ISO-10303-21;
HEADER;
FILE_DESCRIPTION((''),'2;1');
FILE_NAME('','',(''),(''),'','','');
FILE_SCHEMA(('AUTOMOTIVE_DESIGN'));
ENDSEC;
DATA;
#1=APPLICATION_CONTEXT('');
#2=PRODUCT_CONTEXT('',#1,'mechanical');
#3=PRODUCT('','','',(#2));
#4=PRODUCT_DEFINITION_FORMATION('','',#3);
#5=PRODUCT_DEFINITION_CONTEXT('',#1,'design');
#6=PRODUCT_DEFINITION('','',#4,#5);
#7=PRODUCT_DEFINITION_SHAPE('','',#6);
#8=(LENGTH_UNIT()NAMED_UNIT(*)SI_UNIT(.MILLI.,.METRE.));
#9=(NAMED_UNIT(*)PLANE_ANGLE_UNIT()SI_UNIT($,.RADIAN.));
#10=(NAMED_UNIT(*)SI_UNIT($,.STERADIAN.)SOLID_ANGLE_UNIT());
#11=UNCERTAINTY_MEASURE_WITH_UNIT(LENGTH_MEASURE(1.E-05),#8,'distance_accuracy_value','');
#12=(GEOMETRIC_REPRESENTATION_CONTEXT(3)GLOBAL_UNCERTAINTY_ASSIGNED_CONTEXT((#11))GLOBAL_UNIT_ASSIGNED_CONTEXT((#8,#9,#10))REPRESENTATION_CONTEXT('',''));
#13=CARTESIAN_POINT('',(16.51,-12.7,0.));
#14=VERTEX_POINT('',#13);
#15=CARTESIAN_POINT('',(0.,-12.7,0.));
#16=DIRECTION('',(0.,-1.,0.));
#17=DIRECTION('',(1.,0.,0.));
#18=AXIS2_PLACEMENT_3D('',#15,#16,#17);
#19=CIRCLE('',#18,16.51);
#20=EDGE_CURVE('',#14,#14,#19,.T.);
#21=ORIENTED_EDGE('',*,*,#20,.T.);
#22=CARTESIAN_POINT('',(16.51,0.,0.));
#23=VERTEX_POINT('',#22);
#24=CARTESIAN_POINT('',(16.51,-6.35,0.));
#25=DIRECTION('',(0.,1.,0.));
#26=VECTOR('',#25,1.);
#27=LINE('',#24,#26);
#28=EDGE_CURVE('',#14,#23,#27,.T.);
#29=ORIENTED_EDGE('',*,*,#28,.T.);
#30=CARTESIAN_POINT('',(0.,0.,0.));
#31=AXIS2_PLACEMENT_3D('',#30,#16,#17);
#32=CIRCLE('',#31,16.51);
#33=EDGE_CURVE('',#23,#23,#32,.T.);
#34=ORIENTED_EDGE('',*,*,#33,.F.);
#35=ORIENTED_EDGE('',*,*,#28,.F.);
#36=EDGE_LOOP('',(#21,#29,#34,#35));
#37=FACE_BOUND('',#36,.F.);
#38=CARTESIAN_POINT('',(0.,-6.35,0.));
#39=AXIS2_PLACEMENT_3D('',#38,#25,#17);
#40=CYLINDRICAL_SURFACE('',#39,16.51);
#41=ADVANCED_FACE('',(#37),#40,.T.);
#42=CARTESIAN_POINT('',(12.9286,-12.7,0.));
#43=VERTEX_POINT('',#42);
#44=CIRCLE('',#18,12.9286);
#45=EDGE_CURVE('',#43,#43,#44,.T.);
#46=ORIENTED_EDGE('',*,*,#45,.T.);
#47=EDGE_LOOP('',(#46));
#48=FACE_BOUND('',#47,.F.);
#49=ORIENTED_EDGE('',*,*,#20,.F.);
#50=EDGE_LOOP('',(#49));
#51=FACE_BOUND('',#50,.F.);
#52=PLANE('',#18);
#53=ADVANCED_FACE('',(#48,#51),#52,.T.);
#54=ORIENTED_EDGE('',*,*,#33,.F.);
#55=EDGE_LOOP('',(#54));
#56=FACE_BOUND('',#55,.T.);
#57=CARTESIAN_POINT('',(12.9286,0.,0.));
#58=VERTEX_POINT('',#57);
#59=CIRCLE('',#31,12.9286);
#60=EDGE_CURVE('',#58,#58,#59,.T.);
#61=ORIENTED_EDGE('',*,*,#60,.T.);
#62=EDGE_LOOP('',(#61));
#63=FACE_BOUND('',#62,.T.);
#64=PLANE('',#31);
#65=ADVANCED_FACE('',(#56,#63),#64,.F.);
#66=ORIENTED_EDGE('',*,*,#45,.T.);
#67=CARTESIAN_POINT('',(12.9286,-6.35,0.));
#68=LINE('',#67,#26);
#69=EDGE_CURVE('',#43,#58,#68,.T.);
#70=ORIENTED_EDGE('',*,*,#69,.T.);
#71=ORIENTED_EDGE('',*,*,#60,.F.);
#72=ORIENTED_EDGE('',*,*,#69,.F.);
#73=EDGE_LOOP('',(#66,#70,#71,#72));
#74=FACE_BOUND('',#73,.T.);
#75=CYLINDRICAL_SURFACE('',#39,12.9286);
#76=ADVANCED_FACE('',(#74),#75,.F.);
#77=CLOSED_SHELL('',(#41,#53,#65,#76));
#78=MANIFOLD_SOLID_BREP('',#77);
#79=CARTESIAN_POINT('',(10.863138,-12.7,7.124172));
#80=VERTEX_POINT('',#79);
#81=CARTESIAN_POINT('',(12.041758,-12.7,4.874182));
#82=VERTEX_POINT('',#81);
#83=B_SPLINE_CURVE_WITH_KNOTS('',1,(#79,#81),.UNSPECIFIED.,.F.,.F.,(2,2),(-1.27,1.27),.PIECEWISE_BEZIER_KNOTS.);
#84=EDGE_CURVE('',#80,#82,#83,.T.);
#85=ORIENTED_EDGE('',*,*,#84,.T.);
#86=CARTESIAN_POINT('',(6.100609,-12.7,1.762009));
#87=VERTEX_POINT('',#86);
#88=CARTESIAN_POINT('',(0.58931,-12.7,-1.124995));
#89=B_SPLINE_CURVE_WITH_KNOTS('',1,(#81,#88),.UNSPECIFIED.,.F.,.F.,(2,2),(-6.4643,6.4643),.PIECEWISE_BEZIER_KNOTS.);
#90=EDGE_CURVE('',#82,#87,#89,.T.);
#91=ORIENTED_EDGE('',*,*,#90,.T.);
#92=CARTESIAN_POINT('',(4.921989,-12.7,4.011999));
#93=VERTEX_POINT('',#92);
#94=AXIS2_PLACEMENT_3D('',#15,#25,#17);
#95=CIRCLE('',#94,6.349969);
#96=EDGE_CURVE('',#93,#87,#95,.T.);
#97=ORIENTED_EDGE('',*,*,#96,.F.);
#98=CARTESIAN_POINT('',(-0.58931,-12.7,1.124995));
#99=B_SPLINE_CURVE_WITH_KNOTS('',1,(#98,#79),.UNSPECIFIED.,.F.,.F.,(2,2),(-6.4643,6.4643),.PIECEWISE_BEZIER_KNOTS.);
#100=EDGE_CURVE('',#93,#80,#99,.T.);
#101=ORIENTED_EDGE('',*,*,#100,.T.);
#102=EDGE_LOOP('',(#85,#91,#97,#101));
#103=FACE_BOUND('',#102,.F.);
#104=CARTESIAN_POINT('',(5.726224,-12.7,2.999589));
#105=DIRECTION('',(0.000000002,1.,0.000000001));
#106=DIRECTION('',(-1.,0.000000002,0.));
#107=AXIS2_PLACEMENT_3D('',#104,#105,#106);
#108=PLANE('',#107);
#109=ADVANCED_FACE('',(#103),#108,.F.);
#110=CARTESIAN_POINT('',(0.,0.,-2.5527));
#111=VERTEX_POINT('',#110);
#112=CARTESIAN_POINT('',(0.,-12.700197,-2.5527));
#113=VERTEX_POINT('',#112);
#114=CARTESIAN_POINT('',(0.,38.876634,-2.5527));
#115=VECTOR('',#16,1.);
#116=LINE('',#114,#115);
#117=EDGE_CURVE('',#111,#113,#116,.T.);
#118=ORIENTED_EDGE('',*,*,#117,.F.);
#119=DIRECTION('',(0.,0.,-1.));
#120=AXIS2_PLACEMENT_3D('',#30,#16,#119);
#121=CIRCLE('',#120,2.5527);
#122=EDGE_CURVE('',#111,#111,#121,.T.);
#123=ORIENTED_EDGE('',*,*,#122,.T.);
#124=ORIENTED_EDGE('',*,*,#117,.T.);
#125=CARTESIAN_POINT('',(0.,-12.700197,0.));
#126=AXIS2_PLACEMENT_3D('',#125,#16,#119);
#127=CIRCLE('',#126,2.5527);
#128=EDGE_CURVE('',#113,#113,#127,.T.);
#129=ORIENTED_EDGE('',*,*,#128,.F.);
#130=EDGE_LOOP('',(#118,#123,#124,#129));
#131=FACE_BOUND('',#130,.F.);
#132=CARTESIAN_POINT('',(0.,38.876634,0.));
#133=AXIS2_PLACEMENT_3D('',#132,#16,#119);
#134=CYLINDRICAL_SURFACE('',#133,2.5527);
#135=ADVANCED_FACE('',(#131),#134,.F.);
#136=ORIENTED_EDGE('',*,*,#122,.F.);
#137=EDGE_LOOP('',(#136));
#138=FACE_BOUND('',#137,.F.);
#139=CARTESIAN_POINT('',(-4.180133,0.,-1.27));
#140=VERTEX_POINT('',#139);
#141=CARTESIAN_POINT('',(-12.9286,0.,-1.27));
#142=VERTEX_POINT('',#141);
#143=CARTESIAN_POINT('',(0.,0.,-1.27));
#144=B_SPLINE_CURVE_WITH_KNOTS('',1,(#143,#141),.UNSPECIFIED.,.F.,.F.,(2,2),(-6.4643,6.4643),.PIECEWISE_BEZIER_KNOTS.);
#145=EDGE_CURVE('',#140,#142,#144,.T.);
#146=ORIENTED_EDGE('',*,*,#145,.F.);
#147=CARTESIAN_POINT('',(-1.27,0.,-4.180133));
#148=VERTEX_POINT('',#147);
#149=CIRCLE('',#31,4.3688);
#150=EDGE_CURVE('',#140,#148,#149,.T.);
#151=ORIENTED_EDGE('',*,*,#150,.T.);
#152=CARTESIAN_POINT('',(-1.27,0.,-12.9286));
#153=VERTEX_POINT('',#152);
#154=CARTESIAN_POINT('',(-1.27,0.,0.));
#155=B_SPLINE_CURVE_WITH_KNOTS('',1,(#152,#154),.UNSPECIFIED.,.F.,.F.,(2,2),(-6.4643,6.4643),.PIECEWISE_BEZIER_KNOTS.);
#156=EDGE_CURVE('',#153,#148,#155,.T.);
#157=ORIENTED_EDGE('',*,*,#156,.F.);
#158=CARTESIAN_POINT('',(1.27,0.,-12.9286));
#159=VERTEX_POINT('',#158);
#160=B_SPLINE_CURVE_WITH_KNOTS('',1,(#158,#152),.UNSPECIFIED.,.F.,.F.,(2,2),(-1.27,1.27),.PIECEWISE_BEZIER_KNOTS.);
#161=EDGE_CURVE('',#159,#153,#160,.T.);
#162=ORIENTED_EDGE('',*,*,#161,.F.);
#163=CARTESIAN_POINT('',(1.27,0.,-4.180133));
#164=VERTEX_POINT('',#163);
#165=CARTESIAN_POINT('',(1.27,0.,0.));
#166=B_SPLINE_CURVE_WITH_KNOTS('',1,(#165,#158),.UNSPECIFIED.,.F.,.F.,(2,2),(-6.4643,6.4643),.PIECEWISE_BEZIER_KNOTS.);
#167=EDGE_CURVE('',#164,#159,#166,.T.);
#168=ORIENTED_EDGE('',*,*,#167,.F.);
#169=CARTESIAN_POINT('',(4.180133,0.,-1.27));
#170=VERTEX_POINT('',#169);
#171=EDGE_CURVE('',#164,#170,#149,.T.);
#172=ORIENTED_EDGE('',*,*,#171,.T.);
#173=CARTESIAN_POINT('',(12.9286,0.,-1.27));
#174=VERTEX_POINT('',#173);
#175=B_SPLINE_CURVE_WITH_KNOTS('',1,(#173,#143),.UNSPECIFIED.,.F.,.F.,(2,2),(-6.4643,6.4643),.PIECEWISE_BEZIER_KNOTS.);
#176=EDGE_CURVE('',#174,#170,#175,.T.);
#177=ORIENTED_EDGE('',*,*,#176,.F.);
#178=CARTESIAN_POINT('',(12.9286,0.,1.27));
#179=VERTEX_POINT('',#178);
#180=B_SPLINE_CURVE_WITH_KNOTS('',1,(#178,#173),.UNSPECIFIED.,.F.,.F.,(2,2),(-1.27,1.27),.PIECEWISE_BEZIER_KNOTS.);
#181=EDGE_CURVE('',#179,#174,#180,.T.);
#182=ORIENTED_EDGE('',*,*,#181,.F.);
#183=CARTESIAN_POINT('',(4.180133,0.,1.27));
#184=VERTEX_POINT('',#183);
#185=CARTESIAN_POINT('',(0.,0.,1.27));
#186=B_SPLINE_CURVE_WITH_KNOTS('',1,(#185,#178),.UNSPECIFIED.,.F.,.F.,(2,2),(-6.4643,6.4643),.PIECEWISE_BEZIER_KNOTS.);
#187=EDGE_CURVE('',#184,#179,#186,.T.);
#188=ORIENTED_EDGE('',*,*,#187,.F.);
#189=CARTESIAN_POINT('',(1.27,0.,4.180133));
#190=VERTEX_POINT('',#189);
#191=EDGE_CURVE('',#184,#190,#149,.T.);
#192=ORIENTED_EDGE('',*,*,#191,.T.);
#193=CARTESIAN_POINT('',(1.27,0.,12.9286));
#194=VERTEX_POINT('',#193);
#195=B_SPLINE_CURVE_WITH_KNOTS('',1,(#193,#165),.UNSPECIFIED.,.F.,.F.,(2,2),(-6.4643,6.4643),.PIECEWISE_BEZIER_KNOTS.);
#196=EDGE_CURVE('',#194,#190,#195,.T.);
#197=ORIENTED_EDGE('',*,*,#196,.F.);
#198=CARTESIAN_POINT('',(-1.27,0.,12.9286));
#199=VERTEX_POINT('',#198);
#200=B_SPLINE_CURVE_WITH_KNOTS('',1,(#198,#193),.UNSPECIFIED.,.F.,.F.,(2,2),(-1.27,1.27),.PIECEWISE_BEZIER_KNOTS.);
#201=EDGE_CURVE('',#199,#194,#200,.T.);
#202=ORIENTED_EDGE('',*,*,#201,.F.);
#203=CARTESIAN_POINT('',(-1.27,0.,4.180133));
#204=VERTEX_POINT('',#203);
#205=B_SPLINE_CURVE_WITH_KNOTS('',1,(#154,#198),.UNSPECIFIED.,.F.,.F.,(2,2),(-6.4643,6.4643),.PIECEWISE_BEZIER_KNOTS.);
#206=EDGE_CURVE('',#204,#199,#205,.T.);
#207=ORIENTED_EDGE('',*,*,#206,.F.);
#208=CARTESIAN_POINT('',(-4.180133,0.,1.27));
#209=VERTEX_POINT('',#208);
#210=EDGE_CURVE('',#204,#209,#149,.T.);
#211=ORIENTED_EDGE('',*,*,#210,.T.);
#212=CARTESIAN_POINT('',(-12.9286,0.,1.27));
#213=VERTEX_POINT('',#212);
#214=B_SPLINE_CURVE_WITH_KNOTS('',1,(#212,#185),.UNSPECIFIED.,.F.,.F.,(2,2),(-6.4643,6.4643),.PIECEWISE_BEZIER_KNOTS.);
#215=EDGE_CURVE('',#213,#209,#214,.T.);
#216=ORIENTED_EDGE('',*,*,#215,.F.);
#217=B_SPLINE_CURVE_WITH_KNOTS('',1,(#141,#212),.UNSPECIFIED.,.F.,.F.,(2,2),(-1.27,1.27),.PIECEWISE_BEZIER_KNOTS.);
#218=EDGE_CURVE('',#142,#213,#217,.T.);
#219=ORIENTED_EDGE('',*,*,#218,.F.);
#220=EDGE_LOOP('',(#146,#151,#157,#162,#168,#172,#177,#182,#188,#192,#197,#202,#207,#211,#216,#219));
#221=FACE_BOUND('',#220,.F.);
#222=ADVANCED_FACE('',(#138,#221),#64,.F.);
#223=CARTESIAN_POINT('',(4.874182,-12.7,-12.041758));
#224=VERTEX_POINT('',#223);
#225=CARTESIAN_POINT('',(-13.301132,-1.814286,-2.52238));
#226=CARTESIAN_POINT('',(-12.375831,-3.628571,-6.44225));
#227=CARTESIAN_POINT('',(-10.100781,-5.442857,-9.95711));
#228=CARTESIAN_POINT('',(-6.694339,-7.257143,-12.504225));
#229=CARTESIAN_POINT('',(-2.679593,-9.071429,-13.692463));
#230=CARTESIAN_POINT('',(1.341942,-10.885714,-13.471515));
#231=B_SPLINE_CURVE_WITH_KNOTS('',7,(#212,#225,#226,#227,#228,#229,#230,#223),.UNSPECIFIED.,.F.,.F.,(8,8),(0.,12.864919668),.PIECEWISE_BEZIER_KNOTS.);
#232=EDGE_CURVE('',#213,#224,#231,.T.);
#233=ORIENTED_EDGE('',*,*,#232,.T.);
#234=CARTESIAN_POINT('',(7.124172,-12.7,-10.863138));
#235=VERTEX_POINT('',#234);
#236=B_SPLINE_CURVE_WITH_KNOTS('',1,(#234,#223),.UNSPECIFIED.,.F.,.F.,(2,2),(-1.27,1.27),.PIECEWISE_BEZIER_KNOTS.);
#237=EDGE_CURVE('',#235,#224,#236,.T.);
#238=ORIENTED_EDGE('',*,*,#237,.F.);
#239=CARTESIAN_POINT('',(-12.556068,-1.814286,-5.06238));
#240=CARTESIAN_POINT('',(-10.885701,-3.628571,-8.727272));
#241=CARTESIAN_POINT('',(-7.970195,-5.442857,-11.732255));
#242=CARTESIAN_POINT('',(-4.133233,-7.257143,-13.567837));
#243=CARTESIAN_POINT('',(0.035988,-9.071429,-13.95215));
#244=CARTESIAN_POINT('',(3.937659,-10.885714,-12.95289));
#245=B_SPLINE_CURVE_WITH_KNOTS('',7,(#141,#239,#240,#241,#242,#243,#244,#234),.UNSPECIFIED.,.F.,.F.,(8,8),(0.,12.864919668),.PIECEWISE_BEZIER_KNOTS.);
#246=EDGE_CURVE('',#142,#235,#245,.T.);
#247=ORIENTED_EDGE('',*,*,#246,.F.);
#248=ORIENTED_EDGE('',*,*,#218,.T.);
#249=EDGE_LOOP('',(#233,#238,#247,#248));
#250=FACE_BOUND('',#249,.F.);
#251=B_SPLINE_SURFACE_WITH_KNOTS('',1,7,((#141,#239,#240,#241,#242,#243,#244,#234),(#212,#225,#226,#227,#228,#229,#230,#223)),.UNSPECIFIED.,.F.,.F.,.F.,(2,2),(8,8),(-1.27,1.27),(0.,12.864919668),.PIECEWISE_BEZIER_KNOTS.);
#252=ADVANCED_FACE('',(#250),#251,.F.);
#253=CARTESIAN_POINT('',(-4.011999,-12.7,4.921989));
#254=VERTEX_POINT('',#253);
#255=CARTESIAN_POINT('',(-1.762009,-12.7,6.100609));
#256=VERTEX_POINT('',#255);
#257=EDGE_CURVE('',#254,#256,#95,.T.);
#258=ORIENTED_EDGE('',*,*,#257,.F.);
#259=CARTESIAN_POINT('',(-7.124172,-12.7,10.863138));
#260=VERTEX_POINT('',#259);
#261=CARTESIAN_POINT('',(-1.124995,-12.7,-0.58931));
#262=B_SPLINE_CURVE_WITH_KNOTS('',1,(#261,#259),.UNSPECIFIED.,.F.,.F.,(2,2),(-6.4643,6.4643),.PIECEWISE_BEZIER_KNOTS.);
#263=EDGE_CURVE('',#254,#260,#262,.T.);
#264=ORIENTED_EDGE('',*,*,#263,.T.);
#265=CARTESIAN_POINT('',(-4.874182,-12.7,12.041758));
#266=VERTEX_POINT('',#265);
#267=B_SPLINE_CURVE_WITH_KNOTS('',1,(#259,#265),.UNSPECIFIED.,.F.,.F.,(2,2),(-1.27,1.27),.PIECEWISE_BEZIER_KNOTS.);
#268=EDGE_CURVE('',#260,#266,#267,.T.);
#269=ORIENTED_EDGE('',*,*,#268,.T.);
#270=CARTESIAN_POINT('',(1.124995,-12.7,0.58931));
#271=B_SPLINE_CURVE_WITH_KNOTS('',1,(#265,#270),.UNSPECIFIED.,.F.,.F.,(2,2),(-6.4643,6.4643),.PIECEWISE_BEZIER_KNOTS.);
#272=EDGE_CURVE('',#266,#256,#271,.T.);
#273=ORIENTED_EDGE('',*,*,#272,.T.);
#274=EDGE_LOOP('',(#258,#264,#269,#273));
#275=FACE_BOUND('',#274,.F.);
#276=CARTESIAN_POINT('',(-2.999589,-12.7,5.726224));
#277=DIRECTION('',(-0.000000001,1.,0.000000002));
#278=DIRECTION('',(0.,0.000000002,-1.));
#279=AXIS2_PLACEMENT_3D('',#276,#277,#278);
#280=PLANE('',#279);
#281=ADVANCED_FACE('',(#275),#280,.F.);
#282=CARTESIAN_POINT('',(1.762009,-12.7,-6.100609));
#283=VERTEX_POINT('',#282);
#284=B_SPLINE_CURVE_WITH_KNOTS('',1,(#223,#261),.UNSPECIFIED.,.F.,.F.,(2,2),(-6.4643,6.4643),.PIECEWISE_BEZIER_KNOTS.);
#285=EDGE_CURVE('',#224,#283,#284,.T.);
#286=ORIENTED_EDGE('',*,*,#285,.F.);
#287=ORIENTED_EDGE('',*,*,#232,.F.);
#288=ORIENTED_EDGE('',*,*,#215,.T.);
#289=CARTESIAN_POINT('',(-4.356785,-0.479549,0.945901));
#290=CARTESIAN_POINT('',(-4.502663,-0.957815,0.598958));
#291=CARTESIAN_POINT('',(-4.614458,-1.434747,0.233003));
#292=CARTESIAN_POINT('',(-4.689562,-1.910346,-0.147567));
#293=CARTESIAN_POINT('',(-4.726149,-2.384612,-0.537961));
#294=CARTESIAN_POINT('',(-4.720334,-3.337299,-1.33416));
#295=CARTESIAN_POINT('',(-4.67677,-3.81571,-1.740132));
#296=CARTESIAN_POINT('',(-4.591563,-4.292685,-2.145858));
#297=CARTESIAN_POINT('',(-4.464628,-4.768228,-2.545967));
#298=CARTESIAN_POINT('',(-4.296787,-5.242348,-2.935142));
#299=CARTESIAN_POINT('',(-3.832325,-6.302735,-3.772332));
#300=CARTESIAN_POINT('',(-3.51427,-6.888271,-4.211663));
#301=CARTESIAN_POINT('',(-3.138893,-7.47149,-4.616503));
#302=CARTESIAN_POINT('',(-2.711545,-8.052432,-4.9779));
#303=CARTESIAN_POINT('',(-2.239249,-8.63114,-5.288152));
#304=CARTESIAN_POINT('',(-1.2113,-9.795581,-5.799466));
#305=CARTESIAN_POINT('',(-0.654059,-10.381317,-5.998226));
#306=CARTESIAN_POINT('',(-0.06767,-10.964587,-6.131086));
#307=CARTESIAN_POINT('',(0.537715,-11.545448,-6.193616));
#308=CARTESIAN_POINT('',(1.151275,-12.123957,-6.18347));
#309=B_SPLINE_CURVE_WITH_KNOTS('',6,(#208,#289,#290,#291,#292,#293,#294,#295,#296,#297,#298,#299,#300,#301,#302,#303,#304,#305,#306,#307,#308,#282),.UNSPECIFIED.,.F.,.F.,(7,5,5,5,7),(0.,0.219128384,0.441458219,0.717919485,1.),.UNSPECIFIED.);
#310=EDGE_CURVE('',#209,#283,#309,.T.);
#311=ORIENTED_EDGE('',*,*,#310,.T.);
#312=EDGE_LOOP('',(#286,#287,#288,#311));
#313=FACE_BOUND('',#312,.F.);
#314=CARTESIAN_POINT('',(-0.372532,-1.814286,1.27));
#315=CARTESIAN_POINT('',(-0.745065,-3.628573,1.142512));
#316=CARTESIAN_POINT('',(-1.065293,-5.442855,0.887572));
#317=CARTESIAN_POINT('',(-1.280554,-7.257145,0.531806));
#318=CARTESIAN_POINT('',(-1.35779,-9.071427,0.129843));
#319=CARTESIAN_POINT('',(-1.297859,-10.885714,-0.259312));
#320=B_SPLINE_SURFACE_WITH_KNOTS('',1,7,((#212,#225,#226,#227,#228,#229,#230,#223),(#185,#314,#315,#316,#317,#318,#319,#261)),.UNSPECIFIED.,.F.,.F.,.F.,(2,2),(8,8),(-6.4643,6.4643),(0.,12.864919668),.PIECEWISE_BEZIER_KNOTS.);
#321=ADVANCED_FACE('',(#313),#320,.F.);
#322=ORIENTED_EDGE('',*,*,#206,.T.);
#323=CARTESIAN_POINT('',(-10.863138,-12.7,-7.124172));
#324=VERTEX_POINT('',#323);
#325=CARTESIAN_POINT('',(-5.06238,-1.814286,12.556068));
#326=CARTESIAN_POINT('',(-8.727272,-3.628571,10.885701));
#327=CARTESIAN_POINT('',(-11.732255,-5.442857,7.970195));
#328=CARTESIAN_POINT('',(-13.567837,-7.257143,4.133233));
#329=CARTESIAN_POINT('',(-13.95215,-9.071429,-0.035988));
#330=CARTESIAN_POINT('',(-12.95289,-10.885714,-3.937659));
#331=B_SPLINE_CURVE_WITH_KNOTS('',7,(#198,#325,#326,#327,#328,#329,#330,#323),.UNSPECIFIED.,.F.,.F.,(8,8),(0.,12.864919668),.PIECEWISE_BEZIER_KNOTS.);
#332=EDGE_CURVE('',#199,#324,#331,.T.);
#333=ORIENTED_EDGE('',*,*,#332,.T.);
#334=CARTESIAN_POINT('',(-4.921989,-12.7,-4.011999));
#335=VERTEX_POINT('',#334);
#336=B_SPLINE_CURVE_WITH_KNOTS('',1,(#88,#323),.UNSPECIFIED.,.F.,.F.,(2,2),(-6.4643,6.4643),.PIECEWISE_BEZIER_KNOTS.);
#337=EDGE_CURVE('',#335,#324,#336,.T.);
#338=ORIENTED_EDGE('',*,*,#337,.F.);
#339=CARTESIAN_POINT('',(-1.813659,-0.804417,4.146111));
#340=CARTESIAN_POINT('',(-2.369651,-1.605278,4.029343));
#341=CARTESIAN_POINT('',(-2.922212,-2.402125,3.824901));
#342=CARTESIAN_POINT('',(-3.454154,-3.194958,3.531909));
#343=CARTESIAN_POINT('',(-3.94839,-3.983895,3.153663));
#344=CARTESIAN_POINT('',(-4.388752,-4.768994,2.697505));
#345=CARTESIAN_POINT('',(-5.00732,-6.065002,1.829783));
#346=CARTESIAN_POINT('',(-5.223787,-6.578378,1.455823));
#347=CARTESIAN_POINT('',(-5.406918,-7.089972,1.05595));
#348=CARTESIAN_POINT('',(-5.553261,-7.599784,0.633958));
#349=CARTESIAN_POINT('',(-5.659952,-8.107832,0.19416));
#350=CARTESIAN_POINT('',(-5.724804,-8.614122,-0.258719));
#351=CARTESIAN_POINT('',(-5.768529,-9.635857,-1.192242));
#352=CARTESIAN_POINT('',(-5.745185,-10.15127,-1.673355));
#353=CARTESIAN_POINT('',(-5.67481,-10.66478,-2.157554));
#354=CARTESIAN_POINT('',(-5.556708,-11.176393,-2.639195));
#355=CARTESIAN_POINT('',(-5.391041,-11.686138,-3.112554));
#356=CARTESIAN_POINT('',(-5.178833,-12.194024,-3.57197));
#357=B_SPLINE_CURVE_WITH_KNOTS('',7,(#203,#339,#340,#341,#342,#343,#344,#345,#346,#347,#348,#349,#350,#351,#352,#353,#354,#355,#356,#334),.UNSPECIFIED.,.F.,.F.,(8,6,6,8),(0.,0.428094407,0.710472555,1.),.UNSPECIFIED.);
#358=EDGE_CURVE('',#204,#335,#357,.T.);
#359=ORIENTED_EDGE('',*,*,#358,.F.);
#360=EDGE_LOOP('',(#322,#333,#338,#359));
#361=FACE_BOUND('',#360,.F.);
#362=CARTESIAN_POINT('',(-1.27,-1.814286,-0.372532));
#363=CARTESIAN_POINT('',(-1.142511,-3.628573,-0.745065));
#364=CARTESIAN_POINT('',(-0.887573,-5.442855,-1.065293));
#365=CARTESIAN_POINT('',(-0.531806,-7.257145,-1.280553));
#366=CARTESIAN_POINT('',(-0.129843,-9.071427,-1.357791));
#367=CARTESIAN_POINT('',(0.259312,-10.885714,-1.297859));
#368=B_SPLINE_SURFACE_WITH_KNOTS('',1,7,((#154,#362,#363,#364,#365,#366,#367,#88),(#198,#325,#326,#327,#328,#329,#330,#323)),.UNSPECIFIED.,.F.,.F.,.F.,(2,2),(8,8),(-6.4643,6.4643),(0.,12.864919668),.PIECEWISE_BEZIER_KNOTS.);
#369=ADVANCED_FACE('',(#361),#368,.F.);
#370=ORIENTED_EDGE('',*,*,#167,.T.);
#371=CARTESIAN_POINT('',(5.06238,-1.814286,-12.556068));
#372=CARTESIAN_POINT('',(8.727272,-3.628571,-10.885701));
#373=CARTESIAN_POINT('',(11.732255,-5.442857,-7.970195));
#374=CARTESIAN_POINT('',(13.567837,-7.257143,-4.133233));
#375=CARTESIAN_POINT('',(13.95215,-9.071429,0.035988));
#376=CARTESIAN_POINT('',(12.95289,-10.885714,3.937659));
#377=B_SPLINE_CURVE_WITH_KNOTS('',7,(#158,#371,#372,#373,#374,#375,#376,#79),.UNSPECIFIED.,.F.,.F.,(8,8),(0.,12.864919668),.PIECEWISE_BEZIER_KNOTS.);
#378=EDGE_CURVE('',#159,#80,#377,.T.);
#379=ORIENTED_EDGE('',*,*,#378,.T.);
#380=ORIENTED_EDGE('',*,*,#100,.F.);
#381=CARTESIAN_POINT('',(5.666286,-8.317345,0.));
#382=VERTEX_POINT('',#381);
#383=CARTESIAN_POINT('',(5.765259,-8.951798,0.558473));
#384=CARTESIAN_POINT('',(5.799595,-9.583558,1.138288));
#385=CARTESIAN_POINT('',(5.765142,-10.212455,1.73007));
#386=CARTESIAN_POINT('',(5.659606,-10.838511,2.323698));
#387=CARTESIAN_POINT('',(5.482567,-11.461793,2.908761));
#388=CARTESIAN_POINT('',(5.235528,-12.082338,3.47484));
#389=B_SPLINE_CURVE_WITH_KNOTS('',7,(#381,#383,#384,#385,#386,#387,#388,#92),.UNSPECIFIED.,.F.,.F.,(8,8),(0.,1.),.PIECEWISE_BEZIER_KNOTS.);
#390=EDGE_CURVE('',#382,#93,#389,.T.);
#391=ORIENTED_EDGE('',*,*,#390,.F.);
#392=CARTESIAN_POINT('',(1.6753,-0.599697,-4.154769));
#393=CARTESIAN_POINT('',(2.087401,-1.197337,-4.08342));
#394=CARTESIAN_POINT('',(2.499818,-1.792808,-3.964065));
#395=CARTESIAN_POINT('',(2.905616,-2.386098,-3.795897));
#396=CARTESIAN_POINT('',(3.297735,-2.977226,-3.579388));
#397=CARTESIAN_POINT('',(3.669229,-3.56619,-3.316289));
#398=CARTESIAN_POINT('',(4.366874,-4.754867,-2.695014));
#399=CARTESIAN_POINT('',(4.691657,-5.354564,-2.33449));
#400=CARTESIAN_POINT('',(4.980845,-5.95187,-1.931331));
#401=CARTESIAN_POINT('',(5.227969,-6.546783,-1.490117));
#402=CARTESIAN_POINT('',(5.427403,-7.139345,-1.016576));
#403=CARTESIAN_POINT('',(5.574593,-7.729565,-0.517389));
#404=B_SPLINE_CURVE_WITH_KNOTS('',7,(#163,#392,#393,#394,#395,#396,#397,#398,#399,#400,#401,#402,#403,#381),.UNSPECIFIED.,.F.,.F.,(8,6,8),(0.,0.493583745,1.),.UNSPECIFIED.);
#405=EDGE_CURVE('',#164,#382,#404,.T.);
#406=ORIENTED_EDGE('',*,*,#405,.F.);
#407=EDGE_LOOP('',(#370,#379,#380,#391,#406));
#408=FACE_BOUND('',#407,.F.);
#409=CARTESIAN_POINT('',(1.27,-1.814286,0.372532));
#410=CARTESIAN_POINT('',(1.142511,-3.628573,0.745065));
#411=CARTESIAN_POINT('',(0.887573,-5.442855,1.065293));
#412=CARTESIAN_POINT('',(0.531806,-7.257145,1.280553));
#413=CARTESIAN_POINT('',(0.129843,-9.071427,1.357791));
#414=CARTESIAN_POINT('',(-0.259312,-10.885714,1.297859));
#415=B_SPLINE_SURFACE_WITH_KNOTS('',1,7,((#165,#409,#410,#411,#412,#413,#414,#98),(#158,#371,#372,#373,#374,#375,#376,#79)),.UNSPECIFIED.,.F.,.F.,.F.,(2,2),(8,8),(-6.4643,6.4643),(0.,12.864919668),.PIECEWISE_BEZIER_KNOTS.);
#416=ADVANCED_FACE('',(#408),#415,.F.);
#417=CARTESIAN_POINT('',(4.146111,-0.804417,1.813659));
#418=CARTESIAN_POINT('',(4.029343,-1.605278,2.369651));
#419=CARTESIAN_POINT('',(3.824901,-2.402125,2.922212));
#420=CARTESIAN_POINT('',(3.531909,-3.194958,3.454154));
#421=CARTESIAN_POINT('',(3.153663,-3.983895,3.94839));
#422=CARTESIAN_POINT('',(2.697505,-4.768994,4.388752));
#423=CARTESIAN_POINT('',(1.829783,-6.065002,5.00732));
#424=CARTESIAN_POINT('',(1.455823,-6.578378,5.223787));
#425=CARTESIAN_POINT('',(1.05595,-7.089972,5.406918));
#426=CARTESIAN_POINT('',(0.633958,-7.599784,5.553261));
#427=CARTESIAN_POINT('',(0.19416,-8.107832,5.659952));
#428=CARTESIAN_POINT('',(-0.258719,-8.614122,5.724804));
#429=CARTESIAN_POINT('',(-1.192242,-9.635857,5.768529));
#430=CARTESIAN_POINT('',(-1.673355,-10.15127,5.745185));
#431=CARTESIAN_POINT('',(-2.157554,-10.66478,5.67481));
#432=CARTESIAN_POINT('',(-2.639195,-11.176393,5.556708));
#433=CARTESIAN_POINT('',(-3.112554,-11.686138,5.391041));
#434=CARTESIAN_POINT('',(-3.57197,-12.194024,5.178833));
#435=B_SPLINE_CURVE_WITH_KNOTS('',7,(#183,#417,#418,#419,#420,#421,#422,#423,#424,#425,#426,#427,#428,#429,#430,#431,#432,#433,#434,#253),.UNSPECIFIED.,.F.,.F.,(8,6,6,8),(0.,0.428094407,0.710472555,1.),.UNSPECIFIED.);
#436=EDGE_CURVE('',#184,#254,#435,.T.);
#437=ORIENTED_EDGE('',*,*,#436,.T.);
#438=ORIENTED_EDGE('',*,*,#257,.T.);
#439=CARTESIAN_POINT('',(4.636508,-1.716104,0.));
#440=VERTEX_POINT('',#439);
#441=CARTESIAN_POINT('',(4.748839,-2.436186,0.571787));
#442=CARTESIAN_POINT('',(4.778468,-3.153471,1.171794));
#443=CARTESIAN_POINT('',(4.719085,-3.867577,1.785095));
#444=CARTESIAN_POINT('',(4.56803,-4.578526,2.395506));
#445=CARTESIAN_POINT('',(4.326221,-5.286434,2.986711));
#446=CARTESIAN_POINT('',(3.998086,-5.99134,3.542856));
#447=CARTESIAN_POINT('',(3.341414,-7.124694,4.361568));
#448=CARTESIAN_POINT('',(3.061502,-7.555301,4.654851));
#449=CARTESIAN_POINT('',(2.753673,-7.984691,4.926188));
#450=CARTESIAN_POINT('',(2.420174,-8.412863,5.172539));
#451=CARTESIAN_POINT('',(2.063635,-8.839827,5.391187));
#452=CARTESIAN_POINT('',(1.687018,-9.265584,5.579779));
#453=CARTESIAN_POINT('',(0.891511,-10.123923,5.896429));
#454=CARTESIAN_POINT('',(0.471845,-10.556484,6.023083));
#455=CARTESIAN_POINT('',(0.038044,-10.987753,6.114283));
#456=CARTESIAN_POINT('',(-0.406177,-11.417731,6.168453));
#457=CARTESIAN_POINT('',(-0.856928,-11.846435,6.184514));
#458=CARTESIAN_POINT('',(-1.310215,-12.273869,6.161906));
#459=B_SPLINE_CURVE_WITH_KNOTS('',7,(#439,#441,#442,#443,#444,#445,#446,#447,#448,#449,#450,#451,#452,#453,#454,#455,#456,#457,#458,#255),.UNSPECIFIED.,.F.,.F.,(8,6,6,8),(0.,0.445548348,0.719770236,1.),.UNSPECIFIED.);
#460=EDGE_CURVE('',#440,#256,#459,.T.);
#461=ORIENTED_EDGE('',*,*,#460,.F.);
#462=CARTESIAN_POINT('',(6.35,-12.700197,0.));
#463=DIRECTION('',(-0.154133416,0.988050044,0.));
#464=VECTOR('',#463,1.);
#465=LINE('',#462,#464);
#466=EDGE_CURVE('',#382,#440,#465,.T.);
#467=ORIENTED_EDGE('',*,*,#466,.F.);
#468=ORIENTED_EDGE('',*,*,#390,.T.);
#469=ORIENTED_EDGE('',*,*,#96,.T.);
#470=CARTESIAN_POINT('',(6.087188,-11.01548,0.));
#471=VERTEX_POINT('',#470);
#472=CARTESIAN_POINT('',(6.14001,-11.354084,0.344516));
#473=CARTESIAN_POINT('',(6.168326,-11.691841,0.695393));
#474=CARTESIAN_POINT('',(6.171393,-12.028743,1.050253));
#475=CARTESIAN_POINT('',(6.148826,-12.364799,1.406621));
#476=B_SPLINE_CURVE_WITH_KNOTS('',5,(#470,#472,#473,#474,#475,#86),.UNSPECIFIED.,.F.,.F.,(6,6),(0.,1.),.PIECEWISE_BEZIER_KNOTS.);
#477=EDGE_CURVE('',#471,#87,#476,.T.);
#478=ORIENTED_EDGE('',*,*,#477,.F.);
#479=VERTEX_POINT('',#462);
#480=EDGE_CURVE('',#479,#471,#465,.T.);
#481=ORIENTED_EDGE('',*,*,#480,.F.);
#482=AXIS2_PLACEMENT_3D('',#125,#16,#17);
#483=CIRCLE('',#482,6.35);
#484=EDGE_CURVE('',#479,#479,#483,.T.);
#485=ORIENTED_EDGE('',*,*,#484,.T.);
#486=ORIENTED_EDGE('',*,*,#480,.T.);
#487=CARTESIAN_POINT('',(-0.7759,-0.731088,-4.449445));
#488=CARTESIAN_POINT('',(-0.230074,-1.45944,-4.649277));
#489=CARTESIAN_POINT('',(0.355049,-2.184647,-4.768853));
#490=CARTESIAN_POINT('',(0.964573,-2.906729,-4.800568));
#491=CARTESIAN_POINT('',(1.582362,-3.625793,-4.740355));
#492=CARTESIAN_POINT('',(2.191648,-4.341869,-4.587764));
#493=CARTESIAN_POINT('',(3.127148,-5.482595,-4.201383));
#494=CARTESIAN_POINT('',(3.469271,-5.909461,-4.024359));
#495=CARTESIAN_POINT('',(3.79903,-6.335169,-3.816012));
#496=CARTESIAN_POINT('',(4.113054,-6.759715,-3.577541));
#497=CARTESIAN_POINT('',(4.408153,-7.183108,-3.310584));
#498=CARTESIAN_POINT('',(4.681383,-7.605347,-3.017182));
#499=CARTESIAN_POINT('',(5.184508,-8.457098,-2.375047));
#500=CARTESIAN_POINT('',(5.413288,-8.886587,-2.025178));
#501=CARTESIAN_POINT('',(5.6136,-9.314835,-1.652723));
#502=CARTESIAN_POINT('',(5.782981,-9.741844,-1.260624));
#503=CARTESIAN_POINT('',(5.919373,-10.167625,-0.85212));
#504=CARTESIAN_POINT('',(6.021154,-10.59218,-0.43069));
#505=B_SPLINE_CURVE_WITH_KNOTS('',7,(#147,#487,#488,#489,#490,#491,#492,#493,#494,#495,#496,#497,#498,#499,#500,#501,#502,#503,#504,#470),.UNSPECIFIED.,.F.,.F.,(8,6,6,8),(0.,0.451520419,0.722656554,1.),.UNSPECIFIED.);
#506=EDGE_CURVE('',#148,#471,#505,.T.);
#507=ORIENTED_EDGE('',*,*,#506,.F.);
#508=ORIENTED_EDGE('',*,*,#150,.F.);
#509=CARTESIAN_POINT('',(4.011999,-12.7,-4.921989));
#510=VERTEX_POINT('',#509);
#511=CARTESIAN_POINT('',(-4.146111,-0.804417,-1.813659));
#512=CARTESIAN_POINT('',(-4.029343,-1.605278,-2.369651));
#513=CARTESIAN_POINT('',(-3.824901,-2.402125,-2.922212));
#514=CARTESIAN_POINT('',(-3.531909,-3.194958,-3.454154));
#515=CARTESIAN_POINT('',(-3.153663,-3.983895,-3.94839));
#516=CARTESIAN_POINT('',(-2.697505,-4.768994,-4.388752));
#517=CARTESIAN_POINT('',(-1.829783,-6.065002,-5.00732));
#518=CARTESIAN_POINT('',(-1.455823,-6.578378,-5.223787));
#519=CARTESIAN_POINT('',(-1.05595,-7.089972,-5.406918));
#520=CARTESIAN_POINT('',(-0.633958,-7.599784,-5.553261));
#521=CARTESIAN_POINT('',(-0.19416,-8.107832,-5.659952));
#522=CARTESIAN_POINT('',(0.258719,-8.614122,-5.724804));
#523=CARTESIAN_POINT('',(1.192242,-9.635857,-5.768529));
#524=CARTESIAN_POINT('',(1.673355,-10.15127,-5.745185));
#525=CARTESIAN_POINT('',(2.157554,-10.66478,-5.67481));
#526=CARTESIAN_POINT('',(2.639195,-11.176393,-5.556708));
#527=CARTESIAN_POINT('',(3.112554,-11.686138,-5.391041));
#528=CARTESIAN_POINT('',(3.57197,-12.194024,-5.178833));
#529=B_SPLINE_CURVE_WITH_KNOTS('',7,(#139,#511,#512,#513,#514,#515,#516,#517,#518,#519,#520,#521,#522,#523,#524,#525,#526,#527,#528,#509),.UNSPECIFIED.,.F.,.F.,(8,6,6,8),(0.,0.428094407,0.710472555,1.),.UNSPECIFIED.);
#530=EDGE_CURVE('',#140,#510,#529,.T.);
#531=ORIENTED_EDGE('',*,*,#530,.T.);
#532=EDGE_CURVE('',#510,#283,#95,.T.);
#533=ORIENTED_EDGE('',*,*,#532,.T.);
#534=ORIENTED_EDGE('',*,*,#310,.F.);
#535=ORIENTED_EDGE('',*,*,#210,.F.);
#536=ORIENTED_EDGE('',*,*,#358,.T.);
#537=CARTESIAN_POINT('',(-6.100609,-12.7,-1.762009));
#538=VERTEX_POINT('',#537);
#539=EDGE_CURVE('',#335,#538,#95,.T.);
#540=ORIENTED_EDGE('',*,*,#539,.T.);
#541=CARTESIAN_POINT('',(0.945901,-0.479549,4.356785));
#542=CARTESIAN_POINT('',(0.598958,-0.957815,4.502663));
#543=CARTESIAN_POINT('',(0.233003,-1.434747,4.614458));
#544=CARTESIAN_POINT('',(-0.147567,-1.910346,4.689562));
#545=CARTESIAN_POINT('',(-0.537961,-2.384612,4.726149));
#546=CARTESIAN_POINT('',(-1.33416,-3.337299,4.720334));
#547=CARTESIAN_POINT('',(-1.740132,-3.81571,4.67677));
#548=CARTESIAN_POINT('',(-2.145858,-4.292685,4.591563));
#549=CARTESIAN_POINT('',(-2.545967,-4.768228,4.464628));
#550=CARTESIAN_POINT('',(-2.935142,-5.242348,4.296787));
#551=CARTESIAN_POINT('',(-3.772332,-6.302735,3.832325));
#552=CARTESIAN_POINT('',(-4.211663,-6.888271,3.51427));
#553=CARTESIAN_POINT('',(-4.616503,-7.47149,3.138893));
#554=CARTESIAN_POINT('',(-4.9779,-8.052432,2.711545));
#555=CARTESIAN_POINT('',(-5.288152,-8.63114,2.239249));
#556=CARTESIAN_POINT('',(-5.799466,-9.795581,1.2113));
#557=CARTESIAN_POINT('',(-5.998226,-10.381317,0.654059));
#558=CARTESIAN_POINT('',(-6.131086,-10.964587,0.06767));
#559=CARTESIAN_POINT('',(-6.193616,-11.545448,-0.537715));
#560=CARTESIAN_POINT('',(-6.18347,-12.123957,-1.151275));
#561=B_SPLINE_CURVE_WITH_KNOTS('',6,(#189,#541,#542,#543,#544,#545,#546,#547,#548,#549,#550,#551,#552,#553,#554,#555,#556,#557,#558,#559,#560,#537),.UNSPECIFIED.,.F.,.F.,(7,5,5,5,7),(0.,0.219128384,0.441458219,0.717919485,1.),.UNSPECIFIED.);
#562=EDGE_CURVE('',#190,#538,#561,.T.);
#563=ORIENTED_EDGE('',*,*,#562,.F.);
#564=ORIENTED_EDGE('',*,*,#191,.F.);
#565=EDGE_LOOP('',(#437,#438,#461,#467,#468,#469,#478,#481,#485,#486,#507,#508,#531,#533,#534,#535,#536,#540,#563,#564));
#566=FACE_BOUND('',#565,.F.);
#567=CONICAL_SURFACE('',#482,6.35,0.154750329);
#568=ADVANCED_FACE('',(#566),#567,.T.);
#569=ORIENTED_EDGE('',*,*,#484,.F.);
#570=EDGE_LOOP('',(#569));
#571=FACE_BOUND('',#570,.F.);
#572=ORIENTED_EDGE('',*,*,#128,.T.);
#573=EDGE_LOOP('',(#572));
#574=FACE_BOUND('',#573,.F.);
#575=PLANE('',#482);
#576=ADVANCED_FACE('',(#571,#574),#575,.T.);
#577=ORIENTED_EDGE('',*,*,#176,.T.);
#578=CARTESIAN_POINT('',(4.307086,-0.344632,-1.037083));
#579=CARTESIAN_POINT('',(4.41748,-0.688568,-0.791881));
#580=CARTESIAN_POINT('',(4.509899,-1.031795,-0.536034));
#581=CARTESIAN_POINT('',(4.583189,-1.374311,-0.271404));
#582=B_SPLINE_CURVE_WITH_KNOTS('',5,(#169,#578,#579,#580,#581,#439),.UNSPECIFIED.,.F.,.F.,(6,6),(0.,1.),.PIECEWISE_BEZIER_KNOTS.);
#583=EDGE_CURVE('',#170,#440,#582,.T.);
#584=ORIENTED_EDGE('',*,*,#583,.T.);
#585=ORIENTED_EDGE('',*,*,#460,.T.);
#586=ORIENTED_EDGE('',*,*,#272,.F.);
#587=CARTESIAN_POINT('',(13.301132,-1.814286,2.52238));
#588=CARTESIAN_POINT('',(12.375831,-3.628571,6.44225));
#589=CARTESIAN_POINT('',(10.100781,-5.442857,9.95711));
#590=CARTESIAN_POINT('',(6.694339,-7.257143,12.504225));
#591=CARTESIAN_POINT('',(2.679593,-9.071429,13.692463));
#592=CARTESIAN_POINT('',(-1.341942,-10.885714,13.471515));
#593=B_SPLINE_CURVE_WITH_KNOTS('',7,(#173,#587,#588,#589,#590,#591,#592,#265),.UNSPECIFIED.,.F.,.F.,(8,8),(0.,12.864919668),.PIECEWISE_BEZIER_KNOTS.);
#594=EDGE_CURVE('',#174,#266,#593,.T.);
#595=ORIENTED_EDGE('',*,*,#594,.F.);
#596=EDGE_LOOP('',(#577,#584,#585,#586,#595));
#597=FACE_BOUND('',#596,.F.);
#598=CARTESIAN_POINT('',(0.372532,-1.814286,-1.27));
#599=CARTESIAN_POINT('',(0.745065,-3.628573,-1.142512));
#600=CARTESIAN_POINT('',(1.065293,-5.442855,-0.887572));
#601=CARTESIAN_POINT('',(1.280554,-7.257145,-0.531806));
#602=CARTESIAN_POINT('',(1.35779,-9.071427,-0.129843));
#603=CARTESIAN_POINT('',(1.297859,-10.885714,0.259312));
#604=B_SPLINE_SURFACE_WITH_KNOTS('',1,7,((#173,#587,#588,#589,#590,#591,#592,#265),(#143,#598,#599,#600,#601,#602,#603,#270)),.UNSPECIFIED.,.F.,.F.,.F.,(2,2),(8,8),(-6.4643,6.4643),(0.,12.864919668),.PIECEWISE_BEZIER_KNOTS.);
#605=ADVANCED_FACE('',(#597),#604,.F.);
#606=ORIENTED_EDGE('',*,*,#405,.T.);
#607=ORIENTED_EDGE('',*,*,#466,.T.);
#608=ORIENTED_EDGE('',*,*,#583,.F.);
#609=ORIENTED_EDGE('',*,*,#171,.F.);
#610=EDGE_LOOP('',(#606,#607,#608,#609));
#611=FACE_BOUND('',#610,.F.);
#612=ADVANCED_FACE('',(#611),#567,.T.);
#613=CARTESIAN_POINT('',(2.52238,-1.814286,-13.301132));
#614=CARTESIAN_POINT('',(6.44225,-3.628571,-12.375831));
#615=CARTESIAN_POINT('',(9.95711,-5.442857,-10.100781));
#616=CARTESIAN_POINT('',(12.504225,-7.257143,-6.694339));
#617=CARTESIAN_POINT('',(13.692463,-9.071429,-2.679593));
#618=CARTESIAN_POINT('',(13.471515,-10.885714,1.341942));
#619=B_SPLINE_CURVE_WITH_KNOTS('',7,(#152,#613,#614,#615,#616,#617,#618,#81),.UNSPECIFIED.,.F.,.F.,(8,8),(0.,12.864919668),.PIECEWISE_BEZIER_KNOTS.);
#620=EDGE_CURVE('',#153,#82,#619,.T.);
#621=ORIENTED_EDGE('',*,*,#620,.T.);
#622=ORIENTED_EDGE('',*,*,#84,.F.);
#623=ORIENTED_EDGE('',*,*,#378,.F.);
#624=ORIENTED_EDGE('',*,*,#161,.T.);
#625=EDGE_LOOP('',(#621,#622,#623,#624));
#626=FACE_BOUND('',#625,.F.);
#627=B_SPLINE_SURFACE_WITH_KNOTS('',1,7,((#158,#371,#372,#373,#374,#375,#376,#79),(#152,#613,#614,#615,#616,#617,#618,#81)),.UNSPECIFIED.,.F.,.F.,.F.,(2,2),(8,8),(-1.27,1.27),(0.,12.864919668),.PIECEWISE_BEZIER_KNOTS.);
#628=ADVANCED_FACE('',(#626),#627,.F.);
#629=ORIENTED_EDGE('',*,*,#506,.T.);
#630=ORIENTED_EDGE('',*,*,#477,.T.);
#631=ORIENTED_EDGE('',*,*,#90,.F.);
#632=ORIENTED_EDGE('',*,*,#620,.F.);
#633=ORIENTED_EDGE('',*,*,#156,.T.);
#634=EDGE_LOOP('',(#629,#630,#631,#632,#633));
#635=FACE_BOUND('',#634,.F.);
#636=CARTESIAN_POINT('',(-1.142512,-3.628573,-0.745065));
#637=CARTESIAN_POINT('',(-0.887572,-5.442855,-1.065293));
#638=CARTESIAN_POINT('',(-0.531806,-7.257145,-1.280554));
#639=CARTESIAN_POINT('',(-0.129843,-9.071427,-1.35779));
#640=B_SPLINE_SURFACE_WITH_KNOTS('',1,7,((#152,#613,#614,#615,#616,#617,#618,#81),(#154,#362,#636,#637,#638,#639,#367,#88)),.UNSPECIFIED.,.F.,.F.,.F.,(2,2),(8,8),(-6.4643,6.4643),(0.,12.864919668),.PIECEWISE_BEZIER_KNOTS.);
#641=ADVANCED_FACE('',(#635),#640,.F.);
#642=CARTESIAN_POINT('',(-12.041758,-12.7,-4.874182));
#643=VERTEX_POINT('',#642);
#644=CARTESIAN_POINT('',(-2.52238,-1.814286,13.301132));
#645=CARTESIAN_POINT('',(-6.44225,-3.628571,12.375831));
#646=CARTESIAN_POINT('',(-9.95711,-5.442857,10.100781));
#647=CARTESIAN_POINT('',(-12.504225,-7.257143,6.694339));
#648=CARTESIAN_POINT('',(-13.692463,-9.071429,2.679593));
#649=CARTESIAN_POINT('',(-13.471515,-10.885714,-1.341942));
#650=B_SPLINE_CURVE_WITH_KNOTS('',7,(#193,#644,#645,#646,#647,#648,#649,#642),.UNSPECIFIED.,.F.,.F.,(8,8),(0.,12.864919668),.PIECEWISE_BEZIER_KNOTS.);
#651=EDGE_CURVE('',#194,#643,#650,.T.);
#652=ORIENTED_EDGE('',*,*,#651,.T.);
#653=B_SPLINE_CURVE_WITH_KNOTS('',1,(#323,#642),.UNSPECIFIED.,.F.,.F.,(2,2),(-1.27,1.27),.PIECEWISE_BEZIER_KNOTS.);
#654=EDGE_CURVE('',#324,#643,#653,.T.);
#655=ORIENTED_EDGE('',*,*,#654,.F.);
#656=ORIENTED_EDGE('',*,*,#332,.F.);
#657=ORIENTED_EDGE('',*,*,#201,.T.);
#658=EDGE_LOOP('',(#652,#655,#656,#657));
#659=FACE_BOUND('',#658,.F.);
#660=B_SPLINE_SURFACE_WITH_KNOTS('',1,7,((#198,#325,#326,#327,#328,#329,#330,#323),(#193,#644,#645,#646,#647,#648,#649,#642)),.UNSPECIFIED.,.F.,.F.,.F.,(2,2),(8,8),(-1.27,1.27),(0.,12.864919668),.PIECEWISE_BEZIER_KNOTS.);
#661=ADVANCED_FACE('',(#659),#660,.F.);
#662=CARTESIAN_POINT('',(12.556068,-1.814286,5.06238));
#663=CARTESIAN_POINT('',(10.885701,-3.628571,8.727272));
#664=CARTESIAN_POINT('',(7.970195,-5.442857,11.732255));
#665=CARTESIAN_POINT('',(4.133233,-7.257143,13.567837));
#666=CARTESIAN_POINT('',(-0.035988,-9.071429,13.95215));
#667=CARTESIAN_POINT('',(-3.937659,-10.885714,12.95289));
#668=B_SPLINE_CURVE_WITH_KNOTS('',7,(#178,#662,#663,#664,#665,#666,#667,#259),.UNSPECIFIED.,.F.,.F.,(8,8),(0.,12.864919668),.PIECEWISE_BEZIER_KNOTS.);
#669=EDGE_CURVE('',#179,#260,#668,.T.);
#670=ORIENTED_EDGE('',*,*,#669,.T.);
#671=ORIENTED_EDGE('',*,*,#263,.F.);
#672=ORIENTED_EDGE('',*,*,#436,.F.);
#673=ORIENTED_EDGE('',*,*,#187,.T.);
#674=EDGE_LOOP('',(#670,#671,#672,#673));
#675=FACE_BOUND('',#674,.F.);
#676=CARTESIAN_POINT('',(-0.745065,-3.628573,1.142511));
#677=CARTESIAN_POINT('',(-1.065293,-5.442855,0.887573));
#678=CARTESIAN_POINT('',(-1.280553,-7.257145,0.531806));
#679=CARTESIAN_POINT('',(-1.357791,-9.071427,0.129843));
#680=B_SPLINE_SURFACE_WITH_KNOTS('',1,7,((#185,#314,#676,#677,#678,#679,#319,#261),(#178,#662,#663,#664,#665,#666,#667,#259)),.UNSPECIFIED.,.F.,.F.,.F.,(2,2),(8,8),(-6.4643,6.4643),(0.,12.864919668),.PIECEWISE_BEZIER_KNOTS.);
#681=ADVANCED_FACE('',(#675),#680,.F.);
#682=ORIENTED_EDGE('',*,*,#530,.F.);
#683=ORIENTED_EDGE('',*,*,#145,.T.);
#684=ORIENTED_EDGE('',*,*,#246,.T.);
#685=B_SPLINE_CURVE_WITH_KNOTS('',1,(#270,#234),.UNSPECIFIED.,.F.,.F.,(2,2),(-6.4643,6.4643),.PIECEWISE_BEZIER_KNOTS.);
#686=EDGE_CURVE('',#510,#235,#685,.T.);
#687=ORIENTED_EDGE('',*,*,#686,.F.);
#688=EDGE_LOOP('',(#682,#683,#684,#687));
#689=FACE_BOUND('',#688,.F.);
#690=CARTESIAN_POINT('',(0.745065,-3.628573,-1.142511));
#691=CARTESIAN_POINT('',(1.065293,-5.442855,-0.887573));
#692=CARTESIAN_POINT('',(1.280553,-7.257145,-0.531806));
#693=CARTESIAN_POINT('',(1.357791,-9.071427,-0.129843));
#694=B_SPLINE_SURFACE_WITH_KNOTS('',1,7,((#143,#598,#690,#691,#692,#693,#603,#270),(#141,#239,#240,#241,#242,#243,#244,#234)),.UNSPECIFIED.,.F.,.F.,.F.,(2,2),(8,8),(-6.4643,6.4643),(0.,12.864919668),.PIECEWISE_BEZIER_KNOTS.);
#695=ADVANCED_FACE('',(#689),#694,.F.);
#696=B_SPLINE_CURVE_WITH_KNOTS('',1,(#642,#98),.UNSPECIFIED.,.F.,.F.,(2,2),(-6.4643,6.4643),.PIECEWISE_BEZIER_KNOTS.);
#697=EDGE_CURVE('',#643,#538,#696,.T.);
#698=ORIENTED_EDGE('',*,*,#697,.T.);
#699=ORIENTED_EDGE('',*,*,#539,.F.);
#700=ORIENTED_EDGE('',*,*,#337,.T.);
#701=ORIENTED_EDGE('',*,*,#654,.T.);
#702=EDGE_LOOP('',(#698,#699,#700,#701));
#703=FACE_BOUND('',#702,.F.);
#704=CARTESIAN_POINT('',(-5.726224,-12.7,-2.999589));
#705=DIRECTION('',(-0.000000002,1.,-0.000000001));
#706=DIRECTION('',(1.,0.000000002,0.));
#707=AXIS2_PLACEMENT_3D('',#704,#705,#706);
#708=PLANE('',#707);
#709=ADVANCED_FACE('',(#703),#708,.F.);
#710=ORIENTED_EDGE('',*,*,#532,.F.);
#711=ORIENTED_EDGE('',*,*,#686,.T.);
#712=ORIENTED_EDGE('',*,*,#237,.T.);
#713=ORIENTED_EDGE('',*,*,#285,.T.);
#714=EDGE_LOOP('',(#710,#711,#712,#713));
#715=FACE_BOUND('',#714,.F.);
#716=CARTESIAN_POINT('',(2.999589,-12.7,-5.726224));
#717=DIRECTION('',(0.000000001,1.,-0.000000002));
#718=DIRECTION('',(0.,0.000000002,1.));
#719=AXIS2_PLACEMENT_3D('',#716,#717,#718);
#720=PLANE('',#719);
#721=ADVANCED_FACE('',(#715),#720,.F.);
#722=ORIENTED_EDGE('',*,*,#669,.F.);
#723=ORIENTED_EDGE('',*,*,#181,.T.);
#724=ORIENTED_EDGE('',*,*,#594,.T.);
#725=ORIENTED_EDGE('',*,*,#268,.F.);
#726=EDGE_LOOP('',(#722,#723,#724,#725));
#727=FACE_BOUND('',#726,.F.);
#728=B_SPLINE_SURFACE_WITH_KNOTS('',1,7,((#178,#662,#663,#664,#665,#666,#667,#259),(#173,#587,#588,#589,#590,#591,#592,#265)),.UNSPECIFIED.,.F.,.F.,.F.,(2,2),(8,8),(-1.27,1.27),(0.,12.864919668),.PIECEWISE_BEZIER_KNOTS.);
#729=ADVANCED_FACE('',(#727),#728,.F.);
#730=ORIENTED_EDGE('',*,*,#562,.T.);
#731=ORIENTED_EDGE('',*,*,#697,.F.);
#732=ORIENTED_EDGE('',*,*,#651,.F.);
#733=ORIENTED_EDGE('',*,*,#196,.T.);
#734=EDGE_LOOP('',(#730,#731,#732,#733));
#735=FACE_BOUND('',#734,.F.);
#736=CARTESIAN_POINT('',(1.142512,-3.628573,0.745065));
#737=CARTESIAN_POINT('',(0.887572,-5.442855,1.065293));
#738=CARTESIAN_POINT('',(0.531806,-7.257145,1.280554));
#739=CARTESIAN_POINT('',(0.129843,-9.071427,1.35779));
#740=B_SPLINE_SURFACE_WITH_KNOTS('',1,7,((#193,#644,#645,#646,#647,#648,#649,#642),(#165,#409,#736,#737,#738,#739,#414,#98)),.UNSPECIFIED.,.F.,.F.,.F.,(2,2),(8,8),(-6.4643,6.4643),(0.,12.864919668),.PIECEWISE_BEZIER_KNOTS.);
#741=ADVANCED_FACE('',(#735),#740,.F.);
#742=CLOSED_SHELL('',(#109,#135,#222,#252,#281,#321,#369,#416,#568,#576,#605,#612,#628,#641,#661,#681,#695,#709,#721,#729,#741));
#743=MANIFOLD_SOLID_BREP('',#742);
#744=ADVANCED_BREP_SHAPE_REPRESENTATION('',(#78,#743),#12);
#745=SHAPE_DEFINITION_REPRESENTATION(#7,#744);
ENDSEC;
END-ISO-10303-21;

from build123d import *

# Parameters (mm, degrees)
SWEEP1_PITCH           = 38.862
SWEEP1_HEIGHT          = 12.7
SWEEP1_RADIUS          = 12.9286
SWEEP1_START_ANGLE     = 180
SKETCH2_W              = 2.54
SKETCH2_H              = 12.9286
CIRPATTERN1_COUNT      = 4
F_10_CLEARANCE_HOLE1_D = 5.1054
SKETCH11_W             = 3.5814
SKETCH11_H             = 12.7


with BuildPart() as part:
    # Sweep1: sweep along a helix
    with BuildLine() as sweep1_path:
        add(Helix(SWEEP1_PITCH, SWEEP1_HEIGHT, SWEEP1_RADIUS, center=(0, 0, 0), direction=(0, -1, 0), mode=Mode.PRIVATE).rotate(Axis((0, 0, 0), (0, -1, 0)), SWEEP1_START_ANGLE))
    # Sketch2 → Sweep1 (sweep)
    with BuildSketch(Plane(origin=(0, 0, 0), x_dir=(1, 0, 0), z_dir=(0, 1, 0))):
        with Locations((0, -6.4643)):
            Rectangle(SKETCH2_W, SKETCH2_H)
    sweep1 = sweep(path=sweep1_path.line, is_frenet=True)

    # Sketch4 → Revolve1 (revolve)
    with BuildSketch(Plane.XY):
        Polygon((0, 0), (0, -12.700196986), (6.35, -12.700196986), (4.3688, 0), align=None)
    revolve(axis=Axis((0, 0, 0), (0, -1, 0)))

    # CirPattern1: Sweep1 ×4 about axis
    cirpattern1_axis = Axis((0, 28.922533895, 0), (0, -1, 0))
    for i in range(1, CIRPATTERN1_COUNT):
        add(sweep1.rotate(cirpattern1_axis, i * 360 / CIRPATTERN1_COUNT))

    # #10 Clearance Hole1 (through all)
    with Locations(Plane.ZX):
        with Locations((0, 0)):
            Hole(F_10_CLEARANCE_HOLE1_D / 2)


with BuildPart() as body_2:
    # Sketch11 → Revolve2 (revolve)
    with BuildSketch(Plane.XY):
        with Locations((14.7193, -6.35)):
            Rectangle(SKETCH11_W, SKETCH11_H)
    revolve(axis=Axis((0, 28.922533895, 0), (0, -1, 0)))


solid = Compound([part.part, body_2.part])
